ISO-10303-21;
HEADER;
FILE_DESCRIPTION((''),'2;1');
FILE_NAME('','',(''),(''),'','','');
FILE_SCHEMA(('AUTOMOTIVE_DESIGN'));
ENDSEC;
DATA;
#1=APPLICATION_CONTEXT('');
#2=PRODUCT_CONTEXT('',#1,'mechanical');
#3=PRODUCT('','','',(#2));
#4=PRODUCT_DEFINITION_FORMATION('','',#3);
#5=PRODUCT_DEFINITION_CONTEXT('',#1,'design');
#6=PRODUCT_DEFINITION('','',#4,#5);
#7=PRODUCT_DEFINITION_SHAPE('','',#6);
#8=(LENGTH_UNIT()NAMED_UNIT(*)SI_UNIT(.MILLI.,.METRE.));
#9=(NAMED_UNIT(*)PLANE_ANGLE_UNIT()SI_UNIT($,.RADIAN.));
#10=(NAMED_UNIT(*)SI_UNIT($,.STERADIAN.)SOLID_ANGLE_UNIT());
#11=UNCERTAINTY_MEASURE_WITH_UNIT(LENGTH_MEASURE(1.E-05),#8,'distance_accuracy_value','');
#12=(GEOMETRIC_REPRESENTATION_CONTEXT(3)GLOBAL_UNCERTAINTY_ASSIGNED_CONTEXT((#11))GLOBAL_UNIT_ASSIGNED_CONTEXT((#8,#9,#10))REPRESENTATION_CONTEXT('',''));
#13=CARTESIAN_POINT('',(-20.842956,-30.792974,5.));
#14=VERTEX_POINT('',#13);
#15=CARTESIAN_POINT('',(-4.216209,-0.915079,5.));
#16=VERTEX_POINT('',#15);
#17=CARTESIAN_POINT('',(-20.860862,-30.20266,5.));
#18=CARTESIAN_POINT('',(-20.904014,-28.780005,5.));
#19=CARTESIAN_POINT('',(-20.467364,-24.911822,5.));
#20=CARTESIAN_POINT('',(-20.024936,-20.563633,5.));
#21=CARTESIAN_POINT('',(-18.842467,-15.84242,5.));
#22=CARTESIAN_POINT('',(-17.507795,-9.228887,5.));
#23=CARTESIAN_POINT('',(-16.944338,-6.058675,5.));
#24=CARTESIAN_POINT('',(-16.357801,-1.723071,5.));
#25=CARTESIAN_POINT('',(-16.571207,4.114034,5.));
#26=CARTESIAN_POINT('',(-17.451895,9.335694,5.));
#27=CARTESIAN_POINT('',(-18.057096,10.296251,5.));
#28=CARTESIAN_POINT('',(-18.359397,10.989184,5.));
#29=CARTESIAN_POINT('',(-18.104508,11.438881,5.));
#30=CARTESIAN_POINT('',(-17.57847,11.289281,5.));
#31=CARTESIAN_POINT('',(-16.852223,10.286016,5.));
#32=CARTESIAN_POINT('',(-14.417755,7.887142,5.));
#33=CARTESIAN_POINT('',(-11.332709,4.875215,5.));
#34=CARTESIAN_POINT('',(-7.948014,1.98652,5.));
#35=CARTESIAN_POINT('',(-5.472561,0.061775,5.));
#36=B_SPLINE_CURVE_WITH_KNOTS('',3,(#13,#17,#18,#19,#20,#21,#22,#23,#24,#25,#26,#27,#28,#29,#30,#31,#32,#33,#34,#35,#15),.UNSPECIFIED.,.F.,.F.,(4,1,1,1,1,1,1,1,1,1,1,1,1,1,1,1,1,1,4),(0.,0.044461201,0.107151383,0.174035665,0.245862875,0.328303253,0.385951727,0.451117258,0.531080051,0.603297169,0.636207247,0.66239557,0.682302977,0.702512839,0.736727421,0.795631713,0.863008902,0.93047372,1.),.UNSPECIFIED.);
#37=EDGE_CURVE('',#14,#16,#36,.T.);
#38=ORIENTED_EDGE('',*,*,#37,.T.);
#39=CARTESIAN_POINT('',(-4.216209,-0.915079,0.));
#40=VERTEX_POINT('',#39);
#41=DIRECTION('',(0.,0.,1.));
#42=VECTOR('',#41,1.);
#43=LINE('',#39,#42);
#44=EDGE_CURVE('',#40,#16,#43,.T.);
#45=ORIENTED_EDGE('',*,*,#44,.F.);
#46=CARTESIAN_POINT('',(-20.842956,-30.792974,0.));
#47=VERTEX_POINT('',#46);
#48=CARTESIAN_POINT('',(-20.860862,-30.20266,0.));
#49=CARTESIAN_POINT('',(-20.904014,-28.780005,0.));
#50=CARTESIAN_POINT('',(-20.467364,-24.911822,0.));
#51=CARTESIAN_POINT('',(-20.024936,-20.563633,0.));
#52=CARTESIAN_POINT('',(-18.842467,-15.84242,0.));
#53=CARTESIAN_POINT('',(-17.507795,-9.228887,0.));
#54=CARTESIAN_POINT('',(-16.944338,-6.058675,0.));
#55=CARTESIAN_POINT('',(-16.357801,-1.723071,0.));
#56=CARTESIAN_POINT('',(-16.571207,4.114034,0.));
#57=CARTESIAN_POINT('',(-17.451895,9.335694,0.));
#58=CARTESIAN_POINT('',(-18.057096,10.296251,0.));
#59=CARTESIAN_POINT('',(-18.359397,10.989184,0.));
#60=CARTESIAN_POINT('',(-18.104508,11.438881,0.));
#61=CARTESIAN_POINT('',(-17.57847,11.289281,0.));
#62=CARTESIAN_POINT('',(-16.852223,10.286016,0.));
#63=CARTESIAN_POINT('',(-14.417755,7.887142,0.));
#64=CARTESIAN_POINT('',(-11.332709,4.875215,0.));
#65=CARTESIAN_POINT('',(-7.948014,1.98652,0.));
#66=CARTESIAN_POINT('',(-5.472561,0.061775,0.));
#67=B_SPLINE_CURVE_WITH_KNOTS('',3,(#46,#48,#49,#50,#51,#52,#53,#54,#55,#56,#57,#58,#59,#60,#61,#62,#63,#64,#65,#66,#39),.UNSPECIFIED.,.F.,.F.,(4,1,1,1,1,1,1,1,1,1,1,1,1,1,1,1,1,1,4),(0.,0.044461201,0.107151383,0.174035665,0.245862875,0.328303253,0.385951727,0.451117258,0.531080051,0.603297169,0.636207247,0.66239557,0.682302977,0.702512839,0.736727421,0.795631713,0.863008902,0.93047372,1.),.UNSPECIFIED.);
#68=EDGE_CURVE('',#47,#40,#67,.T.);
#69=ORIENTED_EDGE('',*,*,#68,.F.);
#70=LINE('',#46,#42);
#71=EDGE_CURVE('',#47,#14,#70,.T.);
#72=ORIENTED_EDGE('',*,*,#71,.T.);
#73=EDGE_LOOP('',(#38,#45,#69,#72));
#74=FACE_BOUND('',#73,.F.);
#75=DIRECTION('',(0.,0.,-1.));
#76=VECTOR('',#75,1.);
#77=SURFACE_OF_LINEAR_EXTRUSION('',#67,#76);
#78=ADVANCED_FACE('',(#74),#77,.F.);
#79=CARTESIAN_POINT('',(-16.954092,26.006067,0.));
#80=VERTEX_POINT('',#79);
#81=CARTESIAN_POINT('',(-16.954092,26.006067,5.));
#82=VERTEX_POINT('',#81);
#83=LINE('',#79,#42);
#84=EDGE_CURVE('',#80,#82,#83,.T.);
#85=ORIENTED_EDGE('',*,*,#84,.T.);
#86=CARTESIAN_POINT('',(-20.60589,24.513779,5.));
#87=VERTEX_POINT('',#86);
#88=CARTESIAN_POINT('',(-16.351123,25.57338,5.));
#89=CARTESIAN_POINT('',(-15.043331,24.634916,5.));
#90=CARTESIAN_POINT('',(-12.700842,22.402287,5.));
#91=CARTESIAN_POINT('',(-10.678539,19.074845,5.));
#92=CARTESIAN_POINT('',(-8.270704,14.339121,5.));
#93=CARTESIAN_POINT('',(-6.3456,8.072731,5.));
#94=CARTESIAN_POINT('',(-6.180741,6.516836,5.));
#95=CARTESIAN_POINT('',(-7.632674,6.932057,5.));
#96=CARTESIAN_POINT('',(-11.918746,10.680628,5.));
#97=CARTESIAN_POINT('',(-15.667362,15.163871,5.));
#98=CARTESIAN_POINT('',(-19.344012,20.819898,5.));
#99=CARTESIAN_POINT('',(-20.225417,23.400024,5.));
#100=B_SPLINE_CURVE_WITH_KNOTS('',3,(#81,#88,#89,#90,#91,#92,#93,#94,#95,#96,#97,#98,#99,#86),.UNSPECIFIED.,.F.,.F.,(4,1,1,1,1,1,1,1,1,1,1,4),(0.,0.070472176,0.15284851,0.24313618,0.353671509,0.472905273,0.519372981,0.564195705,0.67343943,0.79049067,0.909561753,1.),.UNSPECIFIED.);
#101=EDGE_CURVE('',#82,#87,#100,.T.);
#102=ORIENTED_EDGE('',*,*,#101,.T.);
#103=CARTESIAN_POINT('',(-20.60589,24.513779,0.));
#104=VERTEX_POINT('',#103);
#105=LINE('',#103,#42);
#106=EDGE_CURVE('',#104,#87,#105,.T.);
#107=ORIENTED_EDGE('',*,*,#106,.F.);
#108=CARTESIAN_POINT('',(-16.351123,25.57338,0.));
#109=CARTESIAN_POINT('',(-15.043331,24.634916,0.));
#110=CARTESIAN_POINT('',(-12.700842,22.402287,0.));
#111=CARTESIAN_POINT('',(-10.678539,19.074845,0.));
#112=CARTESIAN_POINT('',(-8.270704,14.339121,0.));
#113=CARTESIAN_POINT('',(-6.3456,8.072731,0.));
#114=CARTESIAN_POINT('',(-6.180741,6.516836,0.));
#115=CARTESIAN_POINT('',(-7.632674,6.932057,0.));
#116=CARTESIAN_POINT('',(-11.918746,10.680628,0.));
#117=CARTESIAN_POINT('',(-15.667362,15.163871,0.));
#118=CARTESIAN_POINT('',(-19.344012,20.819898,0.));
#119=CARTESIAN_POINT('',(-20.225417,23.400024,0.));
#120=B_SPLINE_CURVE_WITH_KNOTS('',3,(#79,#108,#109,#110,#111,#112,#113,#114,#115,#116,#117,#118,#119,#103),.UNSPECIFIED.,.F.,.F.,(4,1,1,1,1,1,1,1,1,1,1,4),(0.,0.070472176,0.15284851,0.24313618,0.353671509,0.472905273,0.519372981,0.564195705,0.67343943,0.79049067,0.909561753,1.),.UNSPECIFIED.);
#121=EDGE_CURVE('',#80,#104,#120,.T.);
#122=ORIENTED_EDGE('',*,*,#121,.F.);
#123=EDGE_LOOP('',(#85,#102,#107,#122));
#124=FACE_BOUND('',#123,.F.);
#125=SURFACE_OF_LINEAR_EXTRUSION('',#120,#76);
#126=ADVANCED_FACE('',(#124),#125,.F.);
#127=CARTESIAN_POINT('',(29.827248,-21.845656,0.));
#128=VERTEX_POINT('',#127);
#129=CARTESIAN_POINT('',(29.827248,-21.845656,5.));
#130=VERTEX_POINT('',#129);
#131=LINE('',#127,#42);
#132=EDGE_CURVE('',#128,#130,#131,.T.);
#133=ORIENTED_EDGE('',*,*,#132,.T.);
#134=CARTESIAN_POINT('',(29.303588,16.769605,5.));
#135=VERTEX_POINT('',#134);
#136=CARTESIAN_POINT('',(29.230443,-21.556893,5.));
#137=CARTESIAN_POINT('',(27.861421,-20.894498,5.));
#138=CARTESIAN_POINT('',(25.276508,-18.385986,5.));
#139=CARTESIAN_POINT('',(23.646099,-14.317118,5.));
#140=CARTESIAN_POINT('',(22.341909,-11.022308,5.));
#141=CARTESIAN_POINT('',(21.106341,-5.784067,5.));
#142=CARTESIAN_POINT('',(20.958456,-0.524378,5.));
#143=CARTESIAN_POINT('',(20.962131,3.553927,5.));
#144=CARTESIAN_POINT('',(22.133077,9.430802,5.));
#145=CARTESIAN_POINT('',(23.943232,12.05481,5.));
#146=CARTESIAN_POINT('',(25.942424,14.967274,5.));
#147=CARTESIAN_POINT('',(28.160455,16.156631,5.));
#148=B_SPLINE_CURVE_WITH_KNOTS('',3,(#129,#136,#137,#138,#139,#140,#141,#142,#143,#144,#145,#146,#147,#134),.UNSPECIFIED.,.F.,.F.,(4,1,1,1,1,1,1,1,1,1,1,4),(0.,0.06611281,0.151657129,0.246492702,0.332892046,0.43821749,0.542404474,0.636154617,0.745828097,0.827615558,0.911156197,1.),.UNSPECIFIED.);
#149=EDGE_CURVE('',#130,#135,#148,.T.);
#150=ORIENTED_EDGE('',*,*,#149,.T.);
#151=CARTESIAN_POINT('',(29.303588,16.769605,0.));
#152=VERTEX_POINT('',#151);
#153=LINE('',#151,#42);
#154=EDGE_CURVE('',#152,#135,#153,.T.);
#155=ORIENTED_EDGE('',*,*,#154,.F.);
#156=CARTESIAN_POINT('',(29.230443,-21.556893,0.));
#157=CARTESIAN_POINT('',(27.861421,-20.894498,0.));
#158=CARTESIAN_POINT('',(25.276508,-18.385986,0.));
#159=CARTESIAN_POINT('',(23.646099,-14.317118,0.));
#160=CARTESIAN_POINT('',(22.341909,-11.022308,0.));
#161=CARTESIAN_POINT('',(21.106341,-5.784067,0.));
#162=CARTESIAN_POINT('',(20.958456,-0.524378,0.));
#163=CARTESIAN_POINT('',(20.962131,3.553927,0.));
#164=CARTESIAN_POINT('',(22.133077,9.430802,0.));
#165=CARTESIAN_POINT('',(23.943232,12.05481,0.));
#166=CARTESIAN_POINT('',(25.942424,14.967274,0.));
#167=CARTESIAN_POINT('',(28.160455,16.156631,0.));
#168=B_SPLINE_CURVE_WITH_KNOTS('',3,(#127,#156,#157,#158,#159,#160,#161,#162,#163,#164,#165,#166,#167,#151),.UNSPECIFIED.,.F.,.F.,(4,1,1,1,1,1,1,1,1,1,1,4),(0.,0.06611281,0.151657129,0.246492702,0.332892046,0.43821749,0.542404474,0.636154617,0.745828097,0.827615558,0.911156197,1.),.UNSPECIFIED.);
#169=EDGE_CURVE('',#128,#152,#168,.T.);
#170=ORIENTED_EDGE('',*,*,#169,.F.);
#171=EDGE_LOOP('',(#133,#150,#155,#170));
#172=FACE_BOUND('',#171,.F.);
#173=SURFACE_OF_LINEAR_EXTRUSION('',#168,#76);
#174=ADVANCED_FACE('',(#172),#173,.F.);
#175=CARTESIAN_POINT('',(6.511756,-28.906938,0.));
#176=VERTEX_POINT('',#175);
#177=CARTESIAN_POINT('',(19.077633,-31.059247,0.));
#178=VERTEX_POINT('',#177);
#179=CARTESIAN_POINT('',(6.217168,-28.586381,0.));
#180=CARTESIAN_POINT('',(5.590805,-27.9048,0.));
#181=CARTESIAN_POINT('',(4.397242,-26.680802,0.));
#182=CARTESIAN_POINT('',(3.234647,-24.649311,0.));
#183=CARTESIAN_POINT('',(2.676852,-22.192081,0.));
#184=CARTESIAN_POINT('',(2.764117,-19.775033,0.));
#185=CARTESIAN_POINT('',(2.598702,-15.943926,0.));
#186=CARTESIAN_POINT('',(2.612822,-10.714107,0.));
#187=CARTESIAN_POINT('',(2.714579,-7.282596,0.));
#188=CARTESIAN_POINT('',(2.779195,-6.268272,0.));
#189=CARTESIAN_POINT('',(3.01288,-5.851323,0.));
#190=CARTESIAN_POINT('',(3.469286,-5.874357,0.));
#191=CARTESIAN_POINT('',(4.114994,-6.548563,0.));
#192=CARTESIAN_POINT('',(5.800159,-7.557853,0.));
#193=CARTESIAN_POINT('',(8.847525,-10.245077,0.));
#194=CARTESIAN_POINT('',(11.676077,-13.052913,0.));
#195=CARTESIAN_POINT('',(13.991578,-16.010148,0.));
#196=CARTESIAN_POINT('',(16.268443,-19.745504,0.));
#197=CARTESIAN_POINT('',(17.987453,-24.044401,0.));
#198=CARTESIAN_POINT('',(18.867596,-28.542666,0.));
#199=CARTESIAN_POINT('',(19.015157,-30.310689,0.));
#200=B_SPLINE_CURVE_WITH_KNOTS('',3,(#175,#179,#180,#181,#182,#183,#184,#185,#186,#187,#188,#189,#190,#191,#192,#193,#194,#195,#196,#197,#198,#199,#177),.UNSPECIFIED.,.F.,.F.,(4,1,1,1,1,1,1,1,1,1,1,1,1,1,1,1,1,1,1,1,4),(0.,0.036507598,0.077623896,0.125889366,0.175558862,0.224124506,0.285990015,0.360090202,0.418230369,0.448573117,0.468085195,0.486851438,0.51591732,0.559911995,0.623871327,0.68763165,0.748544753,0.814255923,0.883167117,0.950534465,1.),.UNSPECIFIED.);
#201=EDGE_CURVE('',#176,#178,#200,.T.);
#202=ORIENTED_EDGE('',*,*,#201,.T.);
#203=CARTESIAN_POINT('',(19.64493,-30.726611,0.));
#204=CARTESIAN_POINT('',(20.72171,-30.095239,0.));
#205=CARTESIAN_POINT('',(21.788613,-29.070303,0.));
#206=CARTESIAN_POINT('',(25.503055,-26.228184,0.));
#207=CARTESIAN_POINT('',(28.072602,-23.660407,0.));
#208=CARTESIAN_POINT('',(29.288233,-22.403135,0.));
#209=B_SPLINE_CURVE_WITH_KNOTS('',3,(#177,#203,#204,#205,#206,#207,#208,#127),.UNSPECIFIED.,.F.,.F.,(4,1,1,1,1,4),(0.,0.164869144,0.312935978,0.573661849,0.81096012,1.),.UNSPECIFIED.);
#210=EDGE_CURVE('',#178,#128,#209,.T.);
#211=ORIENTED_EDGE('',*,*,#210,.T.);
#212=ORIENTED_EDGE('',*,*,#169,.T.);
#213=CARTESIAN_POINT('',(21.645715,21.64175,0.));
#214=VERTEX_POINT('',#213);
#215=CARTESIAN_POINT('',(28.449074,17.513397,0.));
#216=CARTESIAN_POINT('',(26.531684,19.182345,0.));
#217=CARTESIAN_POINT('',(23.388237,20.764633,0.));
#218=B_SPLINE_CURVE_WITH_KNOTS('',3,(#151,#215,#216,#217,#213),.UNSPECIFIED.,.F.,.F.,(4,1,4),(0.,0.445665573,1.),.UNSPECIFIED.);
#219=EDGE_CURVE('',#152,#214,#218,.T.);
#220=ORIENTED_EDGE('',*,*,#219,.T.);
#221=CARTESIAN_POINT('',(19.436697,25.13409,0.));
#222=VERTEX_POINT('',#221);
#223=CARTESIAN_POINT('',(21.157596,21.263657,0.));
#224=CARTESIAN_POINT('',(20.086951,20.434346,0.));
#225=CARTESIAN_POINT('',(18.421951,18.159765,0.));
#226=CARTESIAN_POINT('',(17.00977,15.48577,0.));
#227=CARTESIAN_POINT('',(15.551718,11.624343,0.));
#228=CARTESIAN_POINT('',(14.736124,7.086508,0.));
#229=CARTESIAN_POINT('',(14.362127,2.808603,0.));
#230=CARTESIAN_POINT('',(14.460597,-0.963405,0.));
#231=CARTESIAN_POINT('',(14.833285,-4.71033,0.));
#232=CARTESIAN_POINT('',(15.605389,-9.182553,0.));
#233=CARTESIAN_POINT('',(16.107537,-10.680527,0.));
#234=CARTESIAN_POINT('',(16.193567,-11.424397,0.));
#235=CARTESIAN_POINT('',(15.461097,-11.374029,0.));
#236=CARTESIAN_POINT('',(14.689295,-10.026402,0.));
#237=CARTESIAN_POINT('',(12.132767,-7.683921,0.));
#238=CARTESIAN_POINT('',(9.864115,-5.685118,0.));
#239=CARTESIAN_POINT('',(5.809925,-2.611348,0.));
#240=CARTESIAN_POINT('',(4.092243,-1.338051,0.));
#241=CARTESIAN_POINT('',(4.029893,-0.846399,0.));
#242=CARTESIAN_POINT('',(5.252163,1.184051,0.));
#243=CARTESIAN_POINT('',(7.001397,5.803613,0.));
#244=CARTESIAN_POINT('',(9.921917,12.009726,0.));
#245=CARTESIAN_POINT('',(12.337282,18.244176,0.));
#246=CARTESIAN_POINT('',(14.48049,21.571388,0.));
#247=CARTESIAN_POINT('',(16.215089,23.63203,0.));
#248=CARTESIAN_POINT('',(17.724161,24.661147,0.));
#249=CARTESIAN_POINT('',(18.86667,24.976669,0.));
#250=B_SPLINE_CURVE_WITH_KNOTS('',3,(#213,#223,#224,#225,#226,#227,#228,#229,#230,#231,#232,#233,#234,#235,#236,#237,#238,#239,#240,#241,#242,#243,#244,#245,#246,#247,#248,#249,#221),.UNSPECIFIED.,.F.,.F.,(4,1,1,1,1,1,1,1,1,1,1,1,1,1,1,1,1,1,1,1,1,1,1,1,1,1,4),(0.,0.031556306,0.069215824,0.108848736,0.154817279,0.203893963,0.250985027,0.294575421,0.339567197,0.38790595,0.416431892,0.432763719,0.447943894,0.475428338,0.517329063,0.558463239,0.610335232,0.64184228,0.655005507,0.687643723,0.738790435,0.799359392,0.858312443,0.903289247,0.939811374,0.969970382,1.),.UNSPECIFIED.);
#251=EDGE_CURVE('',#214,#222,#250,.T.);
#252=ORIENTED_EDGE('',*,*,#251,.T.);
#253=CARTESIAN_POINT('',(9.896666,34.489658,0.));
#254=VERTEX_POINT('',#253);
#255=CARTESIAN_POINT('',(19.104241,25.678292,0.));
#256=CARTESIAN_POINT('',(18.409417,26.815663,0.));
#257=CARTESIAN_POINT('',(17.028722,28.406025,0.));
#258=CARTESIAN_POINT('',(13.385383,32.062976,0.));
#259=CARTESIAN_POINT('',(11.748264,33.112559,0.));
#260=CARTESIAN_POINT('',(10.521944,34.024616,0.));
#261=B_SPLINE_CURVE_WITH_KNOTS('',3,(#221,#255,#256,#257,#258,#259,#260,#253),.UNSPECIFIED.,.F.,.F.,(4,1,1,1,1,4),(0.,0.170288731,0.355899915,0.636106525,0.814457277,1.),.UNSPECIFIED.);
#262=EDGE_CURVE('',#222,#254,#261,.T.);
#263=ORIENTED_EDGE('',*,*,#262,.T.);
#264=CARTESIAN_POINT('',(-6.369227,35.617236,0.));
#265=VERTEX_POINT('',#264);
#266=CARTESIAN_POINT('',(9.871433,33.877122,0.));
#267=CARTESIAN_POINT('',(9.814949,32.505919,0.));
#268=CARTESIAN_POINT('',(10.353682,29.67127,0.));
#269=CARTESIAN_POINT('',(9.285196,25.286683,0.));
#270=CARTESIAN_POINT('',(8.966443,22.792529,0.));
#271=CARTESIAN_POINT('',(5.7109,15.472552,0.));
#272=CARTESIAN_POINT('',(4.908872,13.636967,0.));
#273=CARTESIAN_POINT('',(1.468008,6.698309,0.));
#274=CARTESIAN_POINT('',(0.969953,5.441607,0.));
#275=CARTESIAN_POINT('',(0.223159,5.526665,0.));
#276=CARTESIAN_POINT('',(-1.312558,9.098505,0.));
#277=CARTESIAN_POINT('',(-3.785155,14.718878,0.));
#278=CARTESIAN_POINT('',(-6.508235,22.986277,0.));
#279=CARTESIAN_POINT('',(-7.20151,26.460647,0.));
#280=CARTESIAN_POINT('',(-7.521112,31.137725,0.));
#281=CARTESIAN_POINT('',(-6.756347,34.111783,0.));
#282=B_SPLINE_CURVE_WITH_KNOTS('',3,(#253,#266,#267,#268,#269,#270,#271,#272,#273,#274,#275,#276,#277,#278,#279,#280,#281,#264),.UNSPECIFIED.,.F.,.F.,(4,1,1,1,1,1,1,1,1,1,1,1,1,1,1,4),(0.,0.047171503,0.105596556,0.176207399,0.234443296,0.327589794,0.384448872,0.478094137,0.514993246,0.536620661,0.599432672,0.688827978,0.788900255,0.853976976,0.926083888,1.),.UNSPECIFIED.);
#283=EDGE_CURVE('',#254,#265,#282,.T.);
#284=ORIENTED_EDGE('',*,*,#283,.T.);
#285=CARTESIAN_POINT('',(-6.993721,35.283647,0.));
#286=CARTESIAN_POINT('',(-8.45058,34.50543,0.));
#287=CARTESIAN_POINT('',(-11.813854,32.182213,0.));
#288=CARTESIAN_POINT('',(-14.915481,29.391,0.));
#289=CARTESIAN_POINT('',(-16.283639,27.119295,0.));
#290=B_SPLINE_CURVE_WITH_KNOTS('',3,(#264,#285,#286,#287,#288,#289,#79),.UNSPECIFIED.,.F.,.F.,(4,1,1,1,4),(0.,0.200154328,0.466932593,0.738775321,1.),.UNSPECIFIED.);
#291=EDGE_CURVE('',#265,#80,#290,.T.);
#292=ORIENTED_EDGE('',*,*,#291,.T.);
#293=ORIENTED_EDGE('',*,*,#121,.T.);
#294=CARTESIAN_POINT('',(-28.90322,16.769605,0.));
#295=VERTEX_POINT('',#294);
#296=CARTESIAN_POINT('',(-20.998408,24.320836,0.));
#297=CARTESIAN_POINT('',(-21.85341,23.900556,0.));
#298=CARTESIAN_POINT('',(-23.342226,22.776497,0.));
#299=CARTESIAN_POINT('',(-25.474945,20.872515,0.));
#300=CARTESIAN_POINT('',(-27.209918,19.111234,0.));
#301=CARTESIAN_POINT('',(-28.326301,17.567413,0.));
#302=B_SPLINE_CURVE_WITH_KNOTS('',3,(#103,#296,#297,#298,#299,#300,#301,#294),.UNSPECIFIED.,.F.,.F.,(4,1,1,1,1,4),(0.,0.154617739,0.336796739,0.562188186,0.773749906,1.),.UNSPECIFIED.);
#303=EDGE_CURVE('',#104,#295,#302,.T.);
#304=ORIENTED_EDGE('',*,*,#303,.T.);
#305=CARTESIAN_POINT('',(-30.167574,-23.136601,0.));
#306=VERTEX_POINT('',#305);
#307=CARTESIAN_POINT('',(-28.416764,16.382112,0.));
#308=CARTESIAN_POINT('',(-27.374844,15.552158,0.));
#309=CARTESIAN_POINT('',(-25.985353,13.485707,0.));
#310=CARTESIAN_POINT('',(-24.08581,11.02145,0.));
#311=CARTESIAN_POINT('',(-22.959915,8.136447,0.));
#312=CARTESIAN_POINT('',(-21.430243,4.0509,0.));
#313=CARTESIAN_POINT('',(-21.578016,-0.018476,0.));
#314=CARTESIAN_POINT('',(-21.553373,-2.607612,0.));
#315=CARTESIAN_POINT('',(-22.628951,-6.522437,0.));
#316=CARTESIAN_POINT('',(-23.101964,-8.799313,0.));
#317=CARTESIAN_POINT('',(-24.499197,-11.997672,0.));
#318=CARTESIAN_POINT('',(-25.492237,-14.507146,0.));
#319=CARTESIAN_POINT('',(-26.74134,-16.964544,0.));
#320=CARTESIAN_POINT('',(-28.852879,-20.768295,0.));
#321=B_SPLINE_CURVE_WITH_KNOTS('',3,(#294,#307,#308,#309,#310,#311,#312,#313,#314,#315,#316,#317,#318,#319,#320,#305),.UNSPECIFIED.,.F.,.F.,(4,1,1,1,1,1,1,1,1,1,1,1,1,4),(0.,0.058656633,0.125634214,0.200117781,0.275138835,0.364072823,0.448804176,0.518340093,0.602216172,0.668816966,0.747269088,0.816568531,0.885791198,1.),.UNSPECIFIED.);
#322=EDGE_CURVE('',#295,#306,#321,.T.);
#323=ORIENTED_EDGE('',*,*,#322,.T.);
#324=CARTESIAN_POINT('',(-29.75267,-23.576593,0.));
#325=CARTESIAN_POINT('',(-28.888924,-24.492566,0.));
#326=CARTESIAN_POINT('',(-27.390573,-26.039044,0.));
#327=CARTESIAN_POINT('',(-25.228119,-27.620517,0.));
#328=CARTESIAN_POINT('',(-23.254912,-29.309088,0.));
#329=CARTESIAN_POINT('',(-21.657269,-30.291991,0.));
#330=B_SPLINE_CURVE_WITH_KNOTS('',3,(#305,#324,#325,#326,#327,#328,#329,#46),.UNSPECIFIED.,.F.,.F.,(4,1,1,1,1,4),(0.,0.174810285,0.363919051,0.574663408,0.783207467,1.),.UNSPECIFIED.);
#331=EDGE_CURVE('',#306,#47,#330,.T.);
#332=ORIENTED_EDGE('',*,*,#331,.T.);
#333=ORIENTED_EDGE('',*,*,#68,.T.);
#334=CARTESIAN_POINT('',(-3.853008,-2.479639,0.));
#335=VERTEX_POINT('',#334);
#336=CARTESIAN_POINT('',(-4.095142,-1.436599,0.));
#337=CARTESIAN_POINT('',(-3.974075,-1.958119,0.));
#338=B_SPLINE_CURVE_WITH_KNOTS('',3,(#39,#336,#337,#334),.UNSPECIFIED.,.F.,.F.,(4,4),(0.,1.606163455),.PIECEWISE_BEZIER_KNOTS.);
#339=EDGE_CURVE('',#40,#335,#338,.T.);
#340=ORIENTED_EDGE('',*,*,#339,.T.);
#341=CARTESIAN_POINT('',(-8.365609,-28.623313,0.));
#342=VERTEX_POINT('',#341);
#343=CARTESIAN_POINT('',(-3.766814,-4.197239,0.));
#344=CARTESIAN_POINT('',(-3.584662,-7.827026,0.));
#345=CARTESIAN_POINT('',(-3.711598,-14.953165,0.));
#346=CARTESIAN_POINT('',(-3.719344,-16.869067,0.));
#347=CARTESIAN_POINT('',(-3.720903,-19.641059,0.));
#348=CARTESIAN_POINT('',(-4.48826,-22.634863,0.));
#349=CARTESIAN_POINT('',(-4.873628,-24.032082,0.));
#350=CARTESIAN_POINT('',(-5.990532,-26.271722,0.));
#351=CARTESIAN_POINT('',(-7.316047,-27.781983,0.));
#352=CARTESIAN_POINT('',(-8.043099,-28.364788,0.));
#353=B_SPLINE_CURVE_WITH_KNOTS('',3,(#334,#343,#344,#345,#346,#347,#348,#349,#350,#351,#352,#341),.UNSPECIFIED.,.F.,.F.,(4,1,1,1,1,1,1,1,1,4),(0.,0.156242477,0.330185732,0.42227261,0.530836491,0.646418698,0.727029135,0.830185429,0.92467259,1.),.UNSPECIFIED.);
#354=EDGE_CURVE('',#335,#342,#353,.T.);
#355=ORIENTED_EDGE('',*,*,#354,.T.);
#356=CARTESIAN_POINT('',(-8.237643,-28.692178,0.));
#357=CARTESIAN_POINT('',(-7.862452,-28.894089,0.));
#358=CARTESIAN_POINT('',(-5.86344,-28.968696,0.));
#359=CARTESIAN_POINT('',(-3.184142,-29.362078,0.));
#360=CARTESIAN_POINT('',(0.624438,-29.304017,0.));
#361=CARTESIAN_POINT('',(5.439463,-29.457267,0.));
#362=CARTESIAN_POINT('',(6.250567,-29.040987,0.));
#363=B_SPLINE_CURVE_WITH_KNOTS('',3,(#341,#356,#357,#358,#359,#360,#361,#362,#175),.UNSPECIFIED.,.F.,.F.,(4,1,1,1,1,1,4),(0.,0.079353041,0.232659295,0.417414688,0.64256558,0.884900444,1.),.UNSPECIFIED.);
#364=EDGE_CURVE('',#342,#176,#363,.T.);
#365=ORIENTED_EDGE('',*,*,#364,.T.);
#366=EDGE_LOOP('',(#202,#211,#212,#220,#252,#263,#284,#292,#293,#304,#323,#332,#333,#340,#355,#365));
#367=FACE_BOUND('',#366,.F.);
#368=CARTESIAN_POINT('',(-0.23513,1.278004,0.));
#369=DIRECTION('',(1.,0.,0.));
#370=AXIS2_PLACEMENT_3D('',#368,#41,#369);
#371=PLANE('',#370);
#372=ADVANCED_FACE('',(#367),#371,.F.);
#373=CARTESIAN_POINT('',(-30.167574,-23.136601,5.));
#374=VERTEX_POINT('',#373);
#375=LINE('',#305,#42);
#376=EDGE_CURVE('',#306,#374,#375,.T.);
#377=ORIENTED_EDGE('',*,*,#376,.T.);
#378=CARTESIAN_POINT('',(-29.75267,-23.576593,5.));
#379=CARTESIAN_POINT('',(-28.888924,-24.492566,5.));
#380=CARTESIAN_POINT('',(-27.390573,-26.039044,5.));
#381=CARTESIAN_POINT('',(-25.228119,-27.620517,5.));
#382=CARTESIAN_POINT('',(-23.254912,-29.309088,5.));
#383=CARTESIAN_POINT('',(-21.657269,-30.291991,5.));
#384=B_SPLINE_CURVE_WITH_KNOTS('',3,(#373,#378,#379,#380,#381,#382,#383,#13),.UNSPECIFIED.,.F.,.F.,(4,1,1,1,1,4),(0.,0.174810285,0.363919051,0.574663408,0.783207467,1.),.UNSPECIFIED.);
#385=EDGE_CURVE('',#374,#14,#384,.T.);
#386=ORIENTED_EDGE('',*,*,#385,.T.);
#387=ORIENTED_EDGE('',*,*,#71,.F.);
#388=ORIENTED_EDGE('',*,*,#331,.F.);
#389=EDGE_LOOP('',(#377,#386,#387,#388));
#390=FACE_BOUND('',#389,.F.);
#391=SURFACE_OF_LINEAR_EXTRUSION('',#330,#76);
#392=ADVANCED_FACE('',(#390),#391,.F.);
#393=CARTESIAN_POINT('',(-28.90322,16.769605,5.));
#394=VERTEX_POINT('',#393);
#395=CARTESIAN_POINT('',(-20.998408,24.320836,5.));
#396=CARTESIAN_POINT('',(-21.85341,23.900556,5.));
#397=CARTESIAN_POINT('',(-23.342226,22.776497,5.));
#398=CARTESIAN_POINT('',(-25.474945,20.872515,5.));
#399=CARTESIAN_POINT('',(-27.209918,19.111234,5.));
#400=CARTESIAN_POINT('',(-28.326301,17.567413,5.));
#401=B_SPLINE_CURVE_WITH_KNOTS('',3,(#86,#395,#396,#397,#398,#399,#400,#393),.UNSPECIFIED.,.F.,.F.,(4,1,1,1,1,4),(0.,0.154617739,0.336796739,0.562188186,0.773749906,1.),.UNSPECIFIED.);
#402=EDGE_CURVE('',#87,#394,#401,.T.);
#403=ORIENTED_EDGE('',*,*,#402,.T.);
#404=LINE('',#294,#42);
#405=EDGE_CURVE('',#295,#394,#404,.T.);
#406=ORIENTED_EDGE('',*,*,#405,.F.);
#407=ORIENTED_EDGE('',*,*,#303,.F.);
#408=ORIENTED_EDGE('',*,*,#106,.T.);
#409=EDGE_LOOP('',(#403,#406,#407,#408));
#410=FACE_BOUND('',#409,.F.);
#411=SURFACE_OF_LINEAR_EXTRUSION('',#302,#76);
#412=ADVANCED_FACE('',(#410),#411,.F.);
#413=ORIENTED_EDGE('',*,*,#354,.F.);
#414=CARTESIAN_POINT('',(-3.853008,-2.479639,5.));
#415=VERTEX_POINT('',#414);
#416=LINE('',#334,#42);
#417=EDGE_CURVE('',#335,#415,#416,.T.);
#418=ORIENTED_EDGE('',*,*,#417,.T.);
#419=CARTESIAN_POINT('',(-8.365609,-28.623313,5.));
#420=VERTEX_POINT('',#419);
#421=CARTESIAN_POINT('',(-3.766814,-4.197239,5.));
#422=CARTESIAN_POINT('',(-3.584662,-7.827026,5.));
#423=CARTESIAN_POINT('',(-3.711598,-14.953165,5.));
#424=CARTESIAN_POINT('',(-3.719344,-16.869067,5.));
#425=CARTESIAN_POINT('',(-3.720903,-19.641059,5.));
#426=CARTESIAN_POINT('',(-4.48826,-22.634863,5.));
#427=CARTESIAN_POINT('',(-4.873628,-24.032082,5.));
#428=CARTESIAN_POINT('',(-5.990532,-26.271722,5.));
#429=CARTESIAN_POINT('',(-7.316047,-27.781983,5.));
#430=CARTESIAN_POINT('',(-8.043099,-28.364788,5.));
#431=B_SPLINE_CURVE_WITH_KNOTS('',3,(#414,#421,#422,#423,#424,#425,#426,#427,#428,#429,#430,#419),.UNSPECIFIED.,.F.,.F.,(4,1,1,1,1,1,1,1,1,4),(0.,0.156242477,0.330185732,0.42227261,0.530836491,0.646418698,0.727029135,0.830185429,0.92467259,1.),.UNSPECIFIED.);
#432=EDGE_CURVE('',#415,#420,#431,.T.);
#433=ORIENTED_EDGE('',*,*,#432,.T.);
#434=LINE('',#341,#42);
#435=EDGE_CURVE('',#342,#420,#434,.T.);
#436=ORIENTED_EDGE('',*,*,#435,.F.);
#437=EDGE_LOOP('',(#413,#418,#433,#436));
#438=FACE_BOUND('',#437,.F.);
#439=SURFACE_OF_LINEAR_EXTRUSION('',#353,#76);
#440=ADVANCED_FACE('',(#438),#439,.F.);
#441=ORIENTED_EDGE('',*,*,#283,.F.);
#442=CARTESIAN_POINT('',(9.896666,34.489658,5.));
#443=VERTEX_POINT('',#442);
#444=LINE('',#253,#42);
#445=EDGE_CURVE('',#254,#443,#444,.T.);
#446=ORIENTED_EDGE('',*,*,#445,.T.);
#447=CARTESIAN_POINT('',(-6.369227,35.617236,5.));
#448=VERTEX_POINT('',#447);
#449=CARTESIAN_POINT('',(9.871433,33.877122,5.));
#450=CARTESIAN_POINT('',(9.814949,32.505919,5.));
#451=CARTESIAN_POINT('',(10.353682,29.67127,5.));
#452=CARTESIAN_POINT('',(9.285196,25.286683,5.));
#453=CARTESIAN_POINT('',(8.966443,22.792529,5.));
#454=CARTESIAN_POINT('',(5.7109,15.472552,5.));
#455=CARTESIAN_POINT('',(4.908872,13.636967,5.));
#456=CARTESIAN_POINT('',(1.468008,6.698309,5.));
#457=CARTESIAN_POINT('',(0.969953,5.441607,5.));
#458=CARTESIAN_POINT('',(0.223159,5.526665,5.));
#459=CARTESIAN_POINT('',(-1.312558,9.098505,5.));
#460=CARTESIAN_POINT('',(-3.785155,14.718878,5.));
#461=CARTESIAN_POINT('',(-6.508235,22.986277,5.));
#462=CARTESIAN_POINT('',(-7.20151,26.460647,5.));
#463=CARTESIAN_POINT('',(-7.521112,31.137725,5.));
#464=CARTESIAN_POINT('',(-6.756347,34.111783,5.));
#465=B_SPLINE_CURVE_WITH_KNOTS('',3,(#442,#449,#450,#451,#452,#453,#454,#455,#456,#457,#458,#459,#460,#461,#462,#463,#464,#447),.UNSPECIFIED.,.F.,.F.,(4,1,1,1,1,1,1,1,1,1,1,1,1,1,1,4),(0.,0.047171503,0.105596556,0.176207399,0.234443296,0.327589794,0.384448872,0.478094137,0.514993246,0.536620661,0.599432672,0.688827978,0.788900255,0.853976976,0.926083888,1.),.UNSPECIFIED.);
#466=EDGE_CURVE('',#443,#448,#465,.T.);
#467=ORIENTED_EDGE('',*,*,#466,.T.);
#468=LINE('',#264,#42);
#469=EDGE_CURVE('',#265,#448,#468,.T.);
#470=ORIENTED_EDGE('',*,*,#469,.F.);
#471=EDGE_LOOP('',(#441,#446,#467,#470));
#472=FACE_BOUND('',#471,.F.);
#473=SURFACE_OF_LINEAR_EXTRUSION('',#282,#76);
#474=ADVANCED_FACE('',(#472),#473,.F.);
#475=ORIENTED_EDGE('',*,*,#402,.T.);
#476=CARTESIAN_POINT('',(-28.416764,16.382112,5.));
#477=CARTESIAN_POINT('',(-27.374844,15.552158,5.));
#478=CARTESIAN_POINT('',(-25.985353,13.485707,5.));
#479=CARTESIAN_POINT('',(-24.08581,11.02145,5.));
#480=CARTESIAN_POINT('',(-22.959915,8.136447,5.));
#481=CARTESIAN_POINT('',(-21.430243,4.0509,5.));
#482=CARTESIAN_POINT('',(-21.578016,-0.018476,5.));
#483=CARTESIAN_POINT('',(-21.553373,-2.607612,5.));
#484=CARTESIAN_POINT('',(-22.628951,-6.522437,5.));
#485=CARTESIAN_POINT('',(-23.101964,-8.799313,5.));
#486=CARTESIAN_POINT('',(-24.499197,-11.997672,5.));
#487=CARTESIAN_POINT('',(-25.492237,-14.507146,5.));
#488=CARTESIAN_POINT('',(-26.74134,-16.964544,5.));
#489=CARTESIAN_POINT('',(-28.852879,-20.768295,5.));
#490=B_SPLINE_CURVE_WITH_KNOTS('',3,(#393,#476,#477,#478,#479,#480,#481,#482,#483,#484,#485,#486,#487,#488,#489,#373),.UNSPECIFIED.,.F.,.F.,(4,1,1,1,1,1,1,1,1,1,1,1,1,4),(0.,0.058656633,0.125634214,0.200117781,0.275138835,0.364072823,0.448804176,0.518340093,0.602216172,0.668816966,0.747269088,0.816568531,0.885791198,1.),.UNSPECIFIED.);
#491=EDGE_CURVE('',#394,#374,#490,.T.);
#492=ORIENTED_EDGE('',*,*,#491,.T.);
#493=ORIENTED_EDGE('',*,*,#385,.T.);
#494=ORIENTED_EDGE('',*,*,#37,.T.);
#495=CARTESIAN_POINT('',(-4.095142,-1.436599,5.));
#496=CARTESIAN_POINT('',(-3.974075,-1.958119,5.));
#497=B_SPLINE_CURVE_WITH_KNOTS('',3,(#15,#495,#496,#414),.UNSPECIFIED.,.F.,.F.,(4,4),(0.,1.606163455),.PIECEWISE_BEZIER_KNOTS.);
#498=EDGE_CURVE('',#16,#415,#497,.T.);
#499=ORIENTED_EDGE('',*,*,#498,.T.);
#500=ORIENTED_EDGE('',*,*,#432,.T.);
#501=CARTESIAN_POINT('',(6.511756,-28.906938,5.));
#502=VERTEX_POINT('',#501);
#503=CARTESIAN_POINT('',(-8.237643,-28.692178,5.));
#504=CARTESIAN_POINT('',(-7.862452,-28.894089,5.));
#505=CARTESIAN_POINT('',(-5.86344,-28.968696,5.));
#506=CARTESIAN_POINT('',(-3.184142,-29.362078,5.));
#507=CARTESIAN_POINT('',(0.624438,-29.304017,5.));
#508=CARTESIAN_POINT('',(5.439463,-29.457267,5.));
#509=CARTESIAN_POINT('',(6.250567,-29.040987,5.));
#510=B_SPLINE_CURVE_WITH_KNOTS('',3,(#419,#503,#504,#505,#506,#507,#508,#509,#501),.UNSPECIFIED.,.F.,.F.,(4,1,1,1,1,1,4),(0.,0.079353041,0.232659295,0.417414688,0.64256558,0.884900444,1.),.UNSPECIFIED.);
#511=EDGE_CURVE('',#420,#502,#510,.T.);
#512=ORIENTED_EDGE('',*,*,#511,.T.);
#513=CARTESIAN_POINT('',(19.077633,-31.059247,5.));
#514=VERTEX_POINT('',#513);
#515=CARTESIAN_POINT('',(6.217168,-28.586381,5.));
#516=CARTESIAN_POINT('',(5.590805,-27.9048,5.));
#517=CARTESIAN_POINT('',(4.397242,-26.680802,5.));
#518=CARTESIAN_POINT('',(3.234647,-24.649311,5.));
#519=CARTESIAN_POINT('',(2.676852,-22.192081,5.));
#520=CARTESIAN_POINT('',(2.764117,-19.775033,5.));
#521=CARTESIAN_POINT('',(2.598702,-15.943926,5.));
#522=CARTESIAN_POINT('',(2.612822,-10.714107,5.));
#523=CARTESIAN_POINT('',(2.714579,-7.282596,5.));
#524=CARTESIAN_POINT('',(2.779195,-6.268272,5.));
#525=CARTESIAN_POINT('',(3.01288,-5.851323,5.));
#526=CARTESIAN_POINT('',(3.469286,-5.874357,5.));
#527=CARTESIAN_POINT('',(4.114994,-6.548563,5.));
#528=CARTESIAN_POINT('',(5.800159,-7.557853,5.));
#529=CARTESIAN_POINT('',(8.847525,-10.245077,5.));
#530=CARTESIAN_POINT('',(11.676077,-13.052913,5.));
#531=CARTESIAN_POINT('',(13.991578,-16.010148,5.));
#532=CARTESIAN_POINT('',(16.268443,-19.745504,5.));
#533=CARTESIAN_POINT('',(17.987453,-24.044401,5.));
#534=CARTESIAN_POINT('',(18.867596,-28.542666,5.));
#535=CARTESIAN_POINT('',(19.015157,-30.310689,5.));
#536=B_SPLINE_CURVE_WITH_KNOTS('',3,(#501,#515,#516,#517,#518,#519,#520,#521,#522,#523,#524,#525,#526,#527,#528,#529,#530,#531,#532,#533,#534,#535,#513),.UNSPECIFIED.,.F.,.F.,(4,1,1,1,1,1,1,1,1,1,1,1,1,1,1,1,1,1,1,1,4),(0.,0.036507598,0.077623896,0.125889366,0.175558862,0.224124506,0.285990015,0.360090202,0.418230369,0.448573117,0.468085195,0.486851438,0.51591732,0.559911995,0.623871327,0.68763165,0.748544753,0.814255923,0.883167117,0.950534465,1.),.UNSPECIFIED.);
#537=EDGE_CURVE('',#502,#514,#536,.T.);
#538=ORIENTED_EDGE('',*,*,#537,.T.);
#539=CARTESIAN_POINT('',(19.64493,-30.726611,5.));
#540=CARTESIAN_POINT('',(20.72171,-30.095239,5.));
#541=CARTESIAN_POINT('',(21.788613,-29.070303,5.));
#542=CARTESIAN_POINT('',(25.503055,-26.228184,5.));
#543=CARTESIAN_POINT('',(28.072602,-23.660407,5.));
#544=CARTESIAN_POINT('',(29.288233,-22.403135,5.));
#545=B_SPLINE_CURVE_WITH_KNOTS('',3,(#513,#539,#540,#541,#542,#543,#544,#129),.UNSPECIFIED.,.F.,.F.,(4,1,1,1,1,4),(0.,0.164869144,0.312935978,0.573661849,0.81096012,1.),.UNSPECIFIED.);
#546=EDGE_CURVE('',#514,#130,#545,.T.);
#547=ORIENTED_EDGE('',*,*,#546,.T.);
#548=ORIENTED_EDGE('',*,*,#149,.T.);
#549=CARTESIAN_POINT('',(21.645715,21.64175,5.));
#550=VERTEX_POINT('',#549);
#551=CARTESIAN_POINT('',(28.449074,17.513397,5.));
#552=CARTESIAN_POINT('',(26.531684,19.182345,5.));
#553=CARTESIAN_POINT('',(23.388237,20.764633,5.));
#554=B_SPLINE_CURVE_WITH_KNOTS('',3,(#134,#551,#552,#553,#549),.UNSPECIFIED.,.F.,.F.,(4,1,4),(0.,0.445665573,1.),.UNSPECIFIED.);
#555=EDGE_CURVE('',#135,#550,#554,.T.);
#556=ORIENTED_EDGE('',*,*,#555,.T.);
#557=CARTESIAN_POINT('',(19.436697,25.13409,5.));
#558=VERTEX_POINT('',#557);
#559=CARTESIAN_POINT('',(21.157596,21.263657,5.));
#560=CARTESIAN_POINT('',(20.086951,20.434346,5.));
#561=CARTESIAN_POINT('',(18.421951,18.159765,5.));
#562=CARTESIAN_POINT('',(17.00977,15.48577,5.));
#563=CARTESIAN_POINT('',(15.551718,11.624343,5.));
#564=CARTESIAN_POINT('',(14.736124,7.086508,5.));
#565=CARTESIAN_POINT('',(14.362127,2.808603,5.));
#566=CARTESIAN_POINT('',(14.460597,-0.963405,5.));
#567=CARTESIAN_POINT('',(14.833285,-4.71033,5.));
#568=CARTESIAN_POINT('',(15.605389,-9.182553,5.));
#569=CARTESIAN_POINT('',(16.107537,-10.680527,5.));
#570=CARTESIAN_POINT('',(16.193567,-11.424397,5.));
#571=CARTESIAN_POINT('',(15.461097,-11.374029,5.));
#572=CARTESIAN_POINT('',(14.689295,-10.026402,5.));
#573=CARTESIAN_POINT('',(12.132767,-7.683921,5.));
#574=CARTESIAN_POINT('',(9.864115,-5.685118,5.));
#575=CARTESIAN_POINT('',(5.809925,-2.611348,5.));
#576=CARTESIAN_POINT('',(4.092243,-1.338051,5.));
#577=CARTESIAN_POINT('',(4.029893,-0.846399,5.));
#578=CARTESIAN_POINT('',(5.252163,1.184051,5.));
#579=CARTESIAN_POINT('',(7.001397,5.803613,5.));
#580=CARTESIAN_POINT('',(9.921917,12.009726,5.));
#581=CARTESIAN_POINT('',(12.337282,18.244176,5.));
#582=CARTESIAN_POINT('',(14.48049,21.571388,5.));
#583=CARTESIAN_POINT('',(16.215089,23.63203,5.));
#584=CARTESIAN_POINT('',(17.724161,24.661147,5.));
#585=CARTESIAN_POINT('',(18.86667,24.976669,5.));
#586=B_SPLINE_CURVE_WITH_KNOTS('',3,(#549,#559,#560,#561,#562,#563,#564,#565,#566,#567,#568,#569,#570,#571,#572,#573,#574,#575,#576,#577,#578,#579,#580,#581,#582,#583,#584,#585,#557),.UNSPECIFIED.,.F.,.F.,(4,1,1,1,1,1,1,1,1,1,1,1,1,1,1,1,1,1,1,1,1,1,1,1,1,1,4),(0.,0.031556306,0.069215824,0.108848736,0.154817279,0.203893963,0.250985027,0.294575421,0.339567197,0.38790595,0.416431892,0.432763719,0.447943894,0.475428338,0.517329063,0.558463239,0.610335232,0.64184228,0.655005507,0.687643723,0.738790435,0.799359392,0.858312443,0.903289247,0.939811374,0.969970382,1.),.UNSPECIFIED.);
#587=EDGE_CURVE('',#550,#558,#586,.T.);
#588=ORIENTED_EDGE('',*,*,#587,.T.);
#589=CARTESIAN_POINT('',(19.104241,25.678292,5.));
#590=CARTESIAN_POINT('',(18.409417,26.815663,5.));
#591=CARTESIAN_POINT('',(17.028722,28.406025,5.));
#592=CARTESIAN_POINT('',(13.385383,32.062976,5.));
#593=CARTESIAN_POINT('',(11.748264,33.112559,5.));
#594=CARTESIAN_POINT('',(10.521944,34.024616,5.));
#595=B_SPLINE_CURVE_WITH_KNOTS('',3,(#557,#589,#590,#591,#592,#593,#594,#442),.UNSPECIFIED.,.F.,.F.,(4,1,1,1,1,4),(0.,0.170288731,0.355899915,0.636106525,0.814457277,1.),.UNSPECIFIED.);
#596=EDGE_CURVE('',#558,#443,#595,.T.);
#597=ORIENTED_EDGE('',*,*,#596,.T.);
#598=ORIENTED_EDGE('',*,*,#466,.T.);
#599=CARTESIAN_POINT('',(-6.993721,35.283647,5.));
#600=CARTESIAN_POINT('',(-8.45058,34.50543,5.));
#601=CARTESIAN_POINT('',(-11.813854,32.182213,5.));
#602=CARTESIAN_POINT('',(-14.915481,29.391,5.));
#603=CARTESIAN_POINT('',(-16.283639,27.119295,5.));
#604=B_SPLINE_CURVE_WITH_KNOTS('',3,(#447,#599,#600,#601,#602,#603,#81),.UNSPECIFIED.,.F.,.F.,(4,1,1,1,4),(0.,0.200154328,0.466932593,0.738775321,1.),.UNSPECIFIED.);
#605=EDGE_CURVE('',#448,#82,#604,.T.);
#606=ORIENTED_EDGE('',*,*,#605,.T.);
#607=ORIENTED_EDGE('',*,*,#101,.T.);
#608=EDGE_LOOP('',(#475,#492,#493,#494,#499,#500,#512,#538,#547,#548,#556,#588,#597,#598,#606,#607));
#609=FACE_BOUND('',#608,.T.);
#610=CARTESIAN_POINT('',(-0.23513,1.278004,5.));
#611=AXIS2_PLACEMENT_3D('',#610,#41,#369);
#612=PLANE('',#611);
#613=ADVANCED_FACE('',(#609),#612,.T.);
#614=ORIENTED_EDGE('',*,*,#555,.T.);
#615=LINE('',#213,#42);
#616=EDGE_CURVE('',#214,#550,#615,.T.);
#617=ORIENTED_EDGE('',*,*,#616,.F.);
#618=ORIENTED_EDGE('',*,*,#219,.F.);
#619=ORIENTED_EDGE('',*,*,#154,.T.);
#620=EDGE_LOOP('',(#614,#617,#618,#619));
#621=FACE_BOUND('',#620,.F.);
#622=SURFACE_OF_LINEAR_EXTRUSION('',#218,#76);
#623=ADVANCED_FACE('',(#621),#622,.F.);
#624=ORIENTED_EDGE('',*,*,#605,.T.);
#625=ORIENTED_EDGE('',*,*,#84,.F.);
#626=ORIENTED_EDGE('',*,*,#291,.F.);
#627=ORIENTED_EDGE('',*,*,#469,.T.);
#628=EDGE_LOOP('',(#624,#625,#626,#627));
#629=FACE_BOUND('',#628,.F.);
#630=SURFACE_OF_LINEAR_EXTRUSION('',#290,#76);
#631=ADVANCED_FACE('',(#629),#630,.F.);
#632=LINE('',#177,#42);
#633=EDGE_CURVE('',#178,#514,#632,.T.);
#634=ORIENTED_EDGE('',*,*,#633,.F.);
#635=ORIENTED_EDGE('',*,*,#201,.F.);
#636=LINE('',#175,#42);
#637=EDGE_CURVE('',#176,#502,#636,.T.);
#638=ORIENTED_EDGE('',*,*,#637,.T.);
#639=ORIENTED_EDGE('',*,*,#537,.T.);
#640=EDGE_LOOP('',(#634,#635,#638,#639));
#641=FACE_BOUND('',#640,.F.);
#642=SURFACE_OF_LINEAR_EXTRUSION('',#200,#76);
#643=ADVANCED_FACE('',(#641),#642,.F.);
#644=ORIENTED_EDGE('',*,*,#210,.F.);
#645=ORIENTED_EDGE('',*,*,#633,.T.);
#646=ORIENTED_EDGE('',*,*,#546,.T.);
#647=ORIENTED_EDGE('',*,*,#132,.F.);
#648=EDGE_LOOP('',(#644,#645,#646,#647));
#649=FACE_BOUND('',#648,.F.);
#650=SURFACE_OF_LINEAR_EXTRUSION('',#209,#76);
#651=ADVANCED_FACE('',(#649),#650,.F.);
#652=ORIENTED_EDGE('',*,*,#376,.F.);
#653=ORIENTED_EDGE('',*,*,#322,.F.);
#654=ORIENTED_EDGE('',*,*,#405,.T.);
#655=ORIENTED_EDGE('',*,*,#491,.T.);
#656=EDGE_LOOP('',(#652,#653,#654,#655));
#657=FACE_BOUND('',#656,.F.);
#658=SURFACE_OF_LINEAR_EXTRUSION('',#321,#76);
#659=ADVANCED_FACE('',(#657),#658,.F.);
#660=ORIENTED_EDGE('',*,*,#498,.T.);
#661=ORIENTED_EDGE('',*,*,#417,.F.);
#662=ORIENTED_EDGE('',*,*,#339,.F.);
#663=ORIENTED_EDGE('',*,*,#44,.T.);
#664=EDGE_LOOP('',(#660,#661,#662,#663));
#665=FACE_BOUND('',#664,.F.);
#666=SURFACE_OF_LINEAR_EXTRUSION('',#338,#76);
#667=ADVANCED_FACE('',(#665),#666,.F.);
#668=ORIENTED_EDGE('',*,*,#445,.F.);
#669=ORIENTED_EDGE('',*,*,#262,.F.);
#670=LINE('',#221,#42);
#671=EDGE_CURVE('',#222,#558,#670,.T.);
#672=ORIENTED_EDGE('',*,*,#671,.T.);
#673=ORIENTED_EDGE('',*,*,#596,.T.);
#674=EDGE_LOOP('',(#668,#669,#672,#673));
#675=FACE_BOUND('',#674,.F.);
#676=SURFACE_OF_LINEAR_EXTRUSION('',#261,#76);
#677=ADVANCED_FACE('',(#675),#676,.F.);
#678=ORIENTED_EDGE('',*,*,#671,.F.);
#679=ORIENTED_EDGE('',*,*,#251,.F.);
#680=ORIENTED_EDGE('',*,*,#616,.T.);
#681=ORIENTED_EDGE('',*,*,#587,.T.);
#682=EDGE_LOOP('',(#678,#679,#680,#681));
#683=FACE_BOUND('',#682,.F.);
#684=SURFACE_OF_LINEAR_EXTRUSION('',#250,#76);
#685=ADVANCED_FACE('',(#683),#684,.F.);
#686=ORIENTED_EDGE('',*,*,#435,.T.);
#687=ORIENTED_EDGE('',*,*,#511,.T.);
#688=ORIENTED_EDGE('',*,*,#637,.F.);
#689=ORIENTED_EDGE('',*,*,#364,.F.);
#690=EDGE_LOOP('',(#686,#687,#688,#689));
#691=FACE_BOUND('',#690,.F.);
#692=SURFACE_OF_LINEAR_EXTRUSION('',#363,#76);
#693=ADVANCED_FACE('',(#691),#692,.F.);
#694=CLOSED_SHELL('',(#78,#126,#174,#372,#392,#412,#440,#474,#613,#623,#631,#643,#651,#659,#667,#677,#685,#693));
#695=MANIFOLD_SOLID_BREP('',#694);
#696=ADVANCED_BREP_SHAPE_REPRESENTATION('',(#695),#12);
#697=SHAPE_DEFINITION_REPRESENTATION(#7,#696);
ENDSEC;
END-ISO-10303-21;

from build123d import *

# Parameters (mm, degrees)
F1_DEPTH = 5


with BuildPart() as f1:
    # F0 (on Top) → F1 (new body)
    with BuildSketch(Plane.XY):
        with BuildLine():
            add(Edge.make_bspline(
                [(-16.9540923089, 26.0060671717), (-16.3511230393, 25.5733798215), (-15.0433309525, 24.6349155891), (-12.7008415677, 22.4022869564), (-10.6785391417, 19.0748451145), (-8.2707036345, 14.3391207907), (-6.3456003558, 8.072731127), (-6.1807407285, 6.5168361351), (-7.6326742263, 6.9320568412), (-11.9187464421, 10.6806278928), (-15.6673615052, 15.1638714016), (-19.3440121934, 20.8198978447), (-20.2254168498, 23.4000240735), (-20.6058900803, 24.5137792081)],
                knots=[0, 0, 0, 0, 0.0704721761, 0.1528485097, 0.24313618, 0.3536715094, 0.4729052727, 0.5193729812, 0.5641957054, 0.6734394303, 0.7904906696, 0.9095617533, 1, 1, 1, 1], degree=3))
            add(Edge.make_bspline(
                [(-20.6058900803, 24.5137792081), (-20.9984075017, 24.3208357432), (-21.8534102199, 23.9005558323), (-23.3422257738, 22.7764968274), (-25.4749454139, 20.8725148996), (-27.2099175288, 19.1112337363), (-28.3263010345, 17.5674125666), (-28.9032198489, 16.7696047574)],
                knots=[0, 0, 0, 0, 0.1546177393, 0.3367967386, 0.5621881858, 0.7737499063, 1, 1, 1, 1], degree=3))
            add(Edge.make_bspline(
                [(-28.9032198489, 16.7696047574), (-28.4167637448, 16.3821123798), (-27.3748435523, 15.5521584965), (-25.9853525682, 13.4857071877), (-24.0858097794, 11.0214502132), (-22.9599147209, 8.1364474118), (-21.4302425376, 4.0508996574), (-21.5780157799, -0.0184756718), (-21.5533729185, -2.6076122576), (-22.6289511451, -6.5224370805), (-23.1019636695, -8.7993134186), (-24.4991970899, -11.9976720461), (-25.4922368647, -14.5071460666), (-26.7413396131, -16.964544153), (-28.8528792116, -20.7682949806), (-30.1675740629, -23.136600852)],
                knots=[0, 0, 0, 0, 0.058656633, 0.1256342141, 0.2001177811, 0.2751388353, 0.3640728234, 0.4488041761, 0.5183400932, 0.6022161716, 0.6688169664, 0.7472690876, 0.8165685305, 0.8857911977, 1, 1, 1, 1], degree=3))
            add(Edge.make_bspline(
                [(-30.1675740629, -23.136600852), (-29.7526695516, -23.5765928594), (-28.8889237136, -24.4925657031), (-27.3905725441, -26.0390443697), (-25.2281186427, -27.6205166371), (-23.254912202, -29.3090877319), (-21.6572692529, -30.2919914435), (-20.8429563791, -30.7929739356)],
                knots=[0, 0, 0, 0, 0.174810285, 0.3639190512, 0.5746634084, 0.7832074667, 1, 1, 1, 1], degree=3))
            add(Edge.make_bspline(
                [(-20.8429563791, -30.7929739356), (-20.8608619967, -30.2026600864), (-20.9040144903, -28.780005192), (-20.4673640558, -24.9118219361), (-20.0249361056, -20.5636330115), (-18.8424666176, -15.8424202871), (-17.5077953424, -9.2288872815), (-16.9443379138, -6.0586745202), (-16.3578009455, -1.7230713785), (-16.5712067047, 4.1140341944), (-17.451894525, 9.3356936382), (-18.0570964916, 10.2962510904), (-18.3593971501, 10.9891843832), (-18.1045081767, 11.4388810616), (-17.5784697208, 11.2892805661), (-16.8522231139, 10.2860159415), (-14.4177548761, 7.8871415421), (-11.332708812, 4.8752153132), (-7.9480140998, 1.9865204894), (-5.4725607549, 0.0617751182), (-4.2162085883, -0.915079494)],
                knots=[0, 0, 0, 0, 0.0444612009, 0.1071513826, 0.1740356652, 0.2458628754, 0.3283032526, 0.3859517273, 0.4511172583, 0.5310800514, 0.603297169, 0.6362072474, 0.6623955705, 0.682302977, 0.7025128392, 0.7367274211, 0.7956317135, 0.8630089022, 0.9304737199, 1, 1, 1, 1], degree=3))
            add(Edge.make_bspline(
                [(-4.2162085883, -0.915079494), (-4.0951416207, -1.4365992974), (-3.974074653, -1.9581191009), (-3.8530076854, -2.4796389043)],
                knots=[0, 0, 0, 0, 1.606163455, 1.606163455, 1.606163455, 1.606163455], degree=3))
            add(Edge.make_bspline(
                [(-3.8530076854, -2.4796389043), (-3.7668142537, -4.1972385712), (-3.5846624986, -7.8270255225), (-3.7115976376, -14.9531654808), (-3.7193442105, -16.8690669633), (-3.7209025298, -19.641058974), (-4.4882599216, -22.6348628696), (-4.8736277246, -24.0320824613), (-5.9905320299, -26.2717215879), (-7.3160472685, -27.7819828501), (-8.0430987186, -28.3647882461), (-8.3656087518, -28.6233127117)],
                knots=[0, 0, 0, 0, 0.1562424765, 0.3301857315, 0.4222726096, 0.5308364905, 0.6464186979, 0.7270291353, 0.8301854294, 0.9246725899, 1, 1, 1, 1], degree=3))
            add(Edge.make_bspline(
                [(-8.3656087518, -28.6233127117), (-8.2376425098, -28.6921783826), (-7.8624516529, -28.8940892122), (-5.8634395314, -28.9686960986), (-3.1841422009, -29.3620784814), (0.624437919, -29.3040170472), (5.4394630546, -29.4572669167), (6.2505673108, -29.0409865673), (6.5117557533, -28.9069376886)],
                knots=[0, 0, 0, 0, 0.0793530414, 0.2326592947, 0.4174146878, 0.64256558, 0.8849004444, 1, 1, 1, 1], degree=3))
            add(Edge.make_bspline(
                [(6.5117557533, -28.9069376886), (6.2171684789, -28.586380618), (5.5908053875, -27.9047995207), (4.3972424997, -26.6808020589), (3.2346474712, -24.6493113918), (2.6768520748, -22.1920806785), (2.7641166538, -19.7750332626), (2.5987015649, -15.9439261133), (2.61282183, -10.714107184), (2.7145787514, -7.2825956545), (2.7791947808, -6.2682723338), (3.0128803855, -5.8513231307), (3.4692855858, -5.8743572388), (4.114993975, -6.5485628585), (5.800158763, -7.557852709), (8.847524943, -10.2450768972), (11.6760774507, -13.0529128592), (13.9915779669, -16.0101483413), (16.2684430531, -19.7455042265), (17.9874529522, -24.0444010407), (18.8675957667, -28.5426658386), (19.0151570383, -30.3106885244), (19.0776325762, -31.0592465103)],
                knots=[0, 0, 0, 0, 0.0365075982, 0.0776238964, 0.1258893661, 0.1755588616, 0.2241245056, 0.2859900152, 0.3600902024, 0.4182303687, 0.4485731173, 0.4680851946, 0.4868514382, 0.5159173203, 0.5599119953, 0.6238713269, 0.6876316502, 0.7485447529, 0.8142559234, 0.8831671174, 0.9505344654, 1, 1, 1, 1], degree=3))
            add(Edge.make_bspline(
                [(19.0776325762, -31.0592465103), (19.6449301565, -30.7266107407), (20.7217103165, -30.095239112), (21.7886128552, -29.0703026401), (25.5030553474, -26.2281835005), (28.0726021538, -23.6604071121), (29.2882331294, -22.403134669), (29.8272483051, -21.8456555158)],
                knots=[0, 0, 0, 0, 0.164869144, 0.3129359783, 0.5736618494, 0.8109601205, 1, 1, 1, 1], degree=3))
            add(Edge.make_bspline(
                [(29.8272483051, -21.8456555158), (29.2304425005, -21.5568933805), (27.861421062, -20.8944977555), (25.2765082657, -18.3859855777), (23.6460992144, -14.3171184518), (22.3419088894, -11.0223077299), (21.1063413546, -5.7840674377), (20.9584556966, -0.5243779479), (20.9621308249, 3.5539270397), (22.1330766707, 9.4308016115), (23.9432319987, 12.0548095227), (25.942423621, 14.967273527), (28.160454988, 16.1566313757), (29.3035879731, 16.7696047574)],
                knots=[0, 0, 0, 0, 0.0661128104, 0.1516571289, 0.2464927025, 0.3328920459, 0.4382174902, 0.5424044739, 0.6361546167, 0.7458280966, 0.8276155581, 0.9111561971, 1, 1, 1, 1], degree=3))
            add(Edge.make_bspline(
                [(29.3035879731, 16.7696047574), (28.4490735489, 17.5133972629), (26.5316841963, 19.1823449015), (23.3882366532, 20.7646330785), (21.6457154602, 21.6417498887)],
                knots=[0, 0, 0, 0, 0.4456655729, 1, 1, 1, 1], degree=3))
            add(Edge.make_bspline(
                [(21.6457154602, 21.6417498887), (21.157595854, 21.2636571561), (20.0869508638, 20.4343458871), (18.4219514334, 18.1597650806), (17.0097700829, 15.4857701657), (15.5517177107, 11.6243429828), (14.7361243193, 7.0865081837), (14.3621268959, 2.8086032883), (14.4605970945, -0.9634049906), (14.8332846725, -4.7103296309), (15.6053889983, -9.1825534969), (16.1075369777, -10.6805274491), (16.1935665921, -11.424396943), (15.4610967528, -11.3740291706), (14.6892948734, -10.0264017341), (12.1327670509, -7.6839208188), (9.8641147156, -5.6851175248), (5.8099246048, -2.6113481669), (4.092243424, -1.3380509082), (4.0298929794, -0.8463987053), (5.2521625639, 1.184051044), (7.0013966984, 5.803612562), (9.9219166301, 12.009726219), (12.3372816461, 18.2441759393), (14.4804903194, 21.5713883933), (16.2150887513, 23.6320304369), (17.7241610232, 24.6611468707), (18.8666700679, 24.9766686091), (19.4366965443, 25.1340903342)],
                knots=[0, 0, 0, 0, 0.0315563059, 0.0692158242, 0.1088487362, 0.1548172791, 0.2038939632, 0.2509850274, 0.2945754209, 0.3395671965, 0.3879059504, 0.4164318916, 0.4327637194, 0.4479438939, 0.4754283378, 0.5173290626, 0.5584632394, 0.6103352318, 0.64184228, 0.6550055068, 0.687643723, 0.7387904351, 0.7993593921, 0.8583124426, 0.9032892471, 0.9398113737, 0.9699703817, 1, 1, 1, 1], degree=3))
            add(Edge.make_bspline(
                [(19.4366965443, 25.1340903342), (19.1042413619, 25.6782921671), (18.4094169278, 26.8156627079), (17.0287224434, 28.4060246037), (13.3853832477, 32.0629760319), (11.748264275, 33.1125589849), (10.5219442723, 34.0246161992), (9.8966658115, 34.4896577299)],
                knots=[0, 0, 0, 0, 0.1702887309, 0.3558999147, 0.6361065248, 0.8144572774, 1, 1, 1, 1], degree=3))
            add(Edge.make_bspline(
                [(9.8966658115, 34.4896577299), (9.8714333213, 33.8771217362), (9.8149487084, 32.5059190486), (10.3536822079, 29.6712702344), (9.2851958959, 25.2866825076), (8.96644341, 22.7925286251), (5.7108997186, 15.4725524525), (4.9088721758, 13.6369670983), (1.4680076111, 6.6983085731), (0.9699526563, 5.4416069685), (0.2231585936, 5.5266647154), (-1.3125581132, 9.0985052821), (-3.7851550386, 14.7188782717), (-6.5082353795, 22.9862773115), (-7.2015095695, 26.4606471476), (-7.5211122041, 31.1377246817), (-6.7563469116, 34.1117829076), (-6.3692266122, 35.617236048)],
                knots=[0, 0, 0, 0, 0.0471715026, 0.1055965557, 0.1762073989, 0.2344432956, 0.3275897944, 0.3844488717, 0.4780941371, 0.5149932458, 0.5366206615, 0.5994326723, 0.6888279778, 0.788900255, 0.853976976, 0.9260838883, 1, 1, 1, 1], degree=3))
            add(Edge.make_bspline(
                [(-6.3692266122, 35.617236048), (-6.9937207306, 35.283647087), (-8.4505798486, 34.5054297988), (-11.8138540455, 32.1822129063), (-14.9154814751, 29.3910000231), (-16.2836393731, 27.1192949295), (-16.9540923089, 26.0060671717)],
                knots=[0, 0, 0, 0, 0.2001543283, 0.4669325931, 0.7387753209, 1, 1, 1, 1], degree=3))
        make_face()
    extrude(amount=F1_DEPTH)


solid = f1.part
